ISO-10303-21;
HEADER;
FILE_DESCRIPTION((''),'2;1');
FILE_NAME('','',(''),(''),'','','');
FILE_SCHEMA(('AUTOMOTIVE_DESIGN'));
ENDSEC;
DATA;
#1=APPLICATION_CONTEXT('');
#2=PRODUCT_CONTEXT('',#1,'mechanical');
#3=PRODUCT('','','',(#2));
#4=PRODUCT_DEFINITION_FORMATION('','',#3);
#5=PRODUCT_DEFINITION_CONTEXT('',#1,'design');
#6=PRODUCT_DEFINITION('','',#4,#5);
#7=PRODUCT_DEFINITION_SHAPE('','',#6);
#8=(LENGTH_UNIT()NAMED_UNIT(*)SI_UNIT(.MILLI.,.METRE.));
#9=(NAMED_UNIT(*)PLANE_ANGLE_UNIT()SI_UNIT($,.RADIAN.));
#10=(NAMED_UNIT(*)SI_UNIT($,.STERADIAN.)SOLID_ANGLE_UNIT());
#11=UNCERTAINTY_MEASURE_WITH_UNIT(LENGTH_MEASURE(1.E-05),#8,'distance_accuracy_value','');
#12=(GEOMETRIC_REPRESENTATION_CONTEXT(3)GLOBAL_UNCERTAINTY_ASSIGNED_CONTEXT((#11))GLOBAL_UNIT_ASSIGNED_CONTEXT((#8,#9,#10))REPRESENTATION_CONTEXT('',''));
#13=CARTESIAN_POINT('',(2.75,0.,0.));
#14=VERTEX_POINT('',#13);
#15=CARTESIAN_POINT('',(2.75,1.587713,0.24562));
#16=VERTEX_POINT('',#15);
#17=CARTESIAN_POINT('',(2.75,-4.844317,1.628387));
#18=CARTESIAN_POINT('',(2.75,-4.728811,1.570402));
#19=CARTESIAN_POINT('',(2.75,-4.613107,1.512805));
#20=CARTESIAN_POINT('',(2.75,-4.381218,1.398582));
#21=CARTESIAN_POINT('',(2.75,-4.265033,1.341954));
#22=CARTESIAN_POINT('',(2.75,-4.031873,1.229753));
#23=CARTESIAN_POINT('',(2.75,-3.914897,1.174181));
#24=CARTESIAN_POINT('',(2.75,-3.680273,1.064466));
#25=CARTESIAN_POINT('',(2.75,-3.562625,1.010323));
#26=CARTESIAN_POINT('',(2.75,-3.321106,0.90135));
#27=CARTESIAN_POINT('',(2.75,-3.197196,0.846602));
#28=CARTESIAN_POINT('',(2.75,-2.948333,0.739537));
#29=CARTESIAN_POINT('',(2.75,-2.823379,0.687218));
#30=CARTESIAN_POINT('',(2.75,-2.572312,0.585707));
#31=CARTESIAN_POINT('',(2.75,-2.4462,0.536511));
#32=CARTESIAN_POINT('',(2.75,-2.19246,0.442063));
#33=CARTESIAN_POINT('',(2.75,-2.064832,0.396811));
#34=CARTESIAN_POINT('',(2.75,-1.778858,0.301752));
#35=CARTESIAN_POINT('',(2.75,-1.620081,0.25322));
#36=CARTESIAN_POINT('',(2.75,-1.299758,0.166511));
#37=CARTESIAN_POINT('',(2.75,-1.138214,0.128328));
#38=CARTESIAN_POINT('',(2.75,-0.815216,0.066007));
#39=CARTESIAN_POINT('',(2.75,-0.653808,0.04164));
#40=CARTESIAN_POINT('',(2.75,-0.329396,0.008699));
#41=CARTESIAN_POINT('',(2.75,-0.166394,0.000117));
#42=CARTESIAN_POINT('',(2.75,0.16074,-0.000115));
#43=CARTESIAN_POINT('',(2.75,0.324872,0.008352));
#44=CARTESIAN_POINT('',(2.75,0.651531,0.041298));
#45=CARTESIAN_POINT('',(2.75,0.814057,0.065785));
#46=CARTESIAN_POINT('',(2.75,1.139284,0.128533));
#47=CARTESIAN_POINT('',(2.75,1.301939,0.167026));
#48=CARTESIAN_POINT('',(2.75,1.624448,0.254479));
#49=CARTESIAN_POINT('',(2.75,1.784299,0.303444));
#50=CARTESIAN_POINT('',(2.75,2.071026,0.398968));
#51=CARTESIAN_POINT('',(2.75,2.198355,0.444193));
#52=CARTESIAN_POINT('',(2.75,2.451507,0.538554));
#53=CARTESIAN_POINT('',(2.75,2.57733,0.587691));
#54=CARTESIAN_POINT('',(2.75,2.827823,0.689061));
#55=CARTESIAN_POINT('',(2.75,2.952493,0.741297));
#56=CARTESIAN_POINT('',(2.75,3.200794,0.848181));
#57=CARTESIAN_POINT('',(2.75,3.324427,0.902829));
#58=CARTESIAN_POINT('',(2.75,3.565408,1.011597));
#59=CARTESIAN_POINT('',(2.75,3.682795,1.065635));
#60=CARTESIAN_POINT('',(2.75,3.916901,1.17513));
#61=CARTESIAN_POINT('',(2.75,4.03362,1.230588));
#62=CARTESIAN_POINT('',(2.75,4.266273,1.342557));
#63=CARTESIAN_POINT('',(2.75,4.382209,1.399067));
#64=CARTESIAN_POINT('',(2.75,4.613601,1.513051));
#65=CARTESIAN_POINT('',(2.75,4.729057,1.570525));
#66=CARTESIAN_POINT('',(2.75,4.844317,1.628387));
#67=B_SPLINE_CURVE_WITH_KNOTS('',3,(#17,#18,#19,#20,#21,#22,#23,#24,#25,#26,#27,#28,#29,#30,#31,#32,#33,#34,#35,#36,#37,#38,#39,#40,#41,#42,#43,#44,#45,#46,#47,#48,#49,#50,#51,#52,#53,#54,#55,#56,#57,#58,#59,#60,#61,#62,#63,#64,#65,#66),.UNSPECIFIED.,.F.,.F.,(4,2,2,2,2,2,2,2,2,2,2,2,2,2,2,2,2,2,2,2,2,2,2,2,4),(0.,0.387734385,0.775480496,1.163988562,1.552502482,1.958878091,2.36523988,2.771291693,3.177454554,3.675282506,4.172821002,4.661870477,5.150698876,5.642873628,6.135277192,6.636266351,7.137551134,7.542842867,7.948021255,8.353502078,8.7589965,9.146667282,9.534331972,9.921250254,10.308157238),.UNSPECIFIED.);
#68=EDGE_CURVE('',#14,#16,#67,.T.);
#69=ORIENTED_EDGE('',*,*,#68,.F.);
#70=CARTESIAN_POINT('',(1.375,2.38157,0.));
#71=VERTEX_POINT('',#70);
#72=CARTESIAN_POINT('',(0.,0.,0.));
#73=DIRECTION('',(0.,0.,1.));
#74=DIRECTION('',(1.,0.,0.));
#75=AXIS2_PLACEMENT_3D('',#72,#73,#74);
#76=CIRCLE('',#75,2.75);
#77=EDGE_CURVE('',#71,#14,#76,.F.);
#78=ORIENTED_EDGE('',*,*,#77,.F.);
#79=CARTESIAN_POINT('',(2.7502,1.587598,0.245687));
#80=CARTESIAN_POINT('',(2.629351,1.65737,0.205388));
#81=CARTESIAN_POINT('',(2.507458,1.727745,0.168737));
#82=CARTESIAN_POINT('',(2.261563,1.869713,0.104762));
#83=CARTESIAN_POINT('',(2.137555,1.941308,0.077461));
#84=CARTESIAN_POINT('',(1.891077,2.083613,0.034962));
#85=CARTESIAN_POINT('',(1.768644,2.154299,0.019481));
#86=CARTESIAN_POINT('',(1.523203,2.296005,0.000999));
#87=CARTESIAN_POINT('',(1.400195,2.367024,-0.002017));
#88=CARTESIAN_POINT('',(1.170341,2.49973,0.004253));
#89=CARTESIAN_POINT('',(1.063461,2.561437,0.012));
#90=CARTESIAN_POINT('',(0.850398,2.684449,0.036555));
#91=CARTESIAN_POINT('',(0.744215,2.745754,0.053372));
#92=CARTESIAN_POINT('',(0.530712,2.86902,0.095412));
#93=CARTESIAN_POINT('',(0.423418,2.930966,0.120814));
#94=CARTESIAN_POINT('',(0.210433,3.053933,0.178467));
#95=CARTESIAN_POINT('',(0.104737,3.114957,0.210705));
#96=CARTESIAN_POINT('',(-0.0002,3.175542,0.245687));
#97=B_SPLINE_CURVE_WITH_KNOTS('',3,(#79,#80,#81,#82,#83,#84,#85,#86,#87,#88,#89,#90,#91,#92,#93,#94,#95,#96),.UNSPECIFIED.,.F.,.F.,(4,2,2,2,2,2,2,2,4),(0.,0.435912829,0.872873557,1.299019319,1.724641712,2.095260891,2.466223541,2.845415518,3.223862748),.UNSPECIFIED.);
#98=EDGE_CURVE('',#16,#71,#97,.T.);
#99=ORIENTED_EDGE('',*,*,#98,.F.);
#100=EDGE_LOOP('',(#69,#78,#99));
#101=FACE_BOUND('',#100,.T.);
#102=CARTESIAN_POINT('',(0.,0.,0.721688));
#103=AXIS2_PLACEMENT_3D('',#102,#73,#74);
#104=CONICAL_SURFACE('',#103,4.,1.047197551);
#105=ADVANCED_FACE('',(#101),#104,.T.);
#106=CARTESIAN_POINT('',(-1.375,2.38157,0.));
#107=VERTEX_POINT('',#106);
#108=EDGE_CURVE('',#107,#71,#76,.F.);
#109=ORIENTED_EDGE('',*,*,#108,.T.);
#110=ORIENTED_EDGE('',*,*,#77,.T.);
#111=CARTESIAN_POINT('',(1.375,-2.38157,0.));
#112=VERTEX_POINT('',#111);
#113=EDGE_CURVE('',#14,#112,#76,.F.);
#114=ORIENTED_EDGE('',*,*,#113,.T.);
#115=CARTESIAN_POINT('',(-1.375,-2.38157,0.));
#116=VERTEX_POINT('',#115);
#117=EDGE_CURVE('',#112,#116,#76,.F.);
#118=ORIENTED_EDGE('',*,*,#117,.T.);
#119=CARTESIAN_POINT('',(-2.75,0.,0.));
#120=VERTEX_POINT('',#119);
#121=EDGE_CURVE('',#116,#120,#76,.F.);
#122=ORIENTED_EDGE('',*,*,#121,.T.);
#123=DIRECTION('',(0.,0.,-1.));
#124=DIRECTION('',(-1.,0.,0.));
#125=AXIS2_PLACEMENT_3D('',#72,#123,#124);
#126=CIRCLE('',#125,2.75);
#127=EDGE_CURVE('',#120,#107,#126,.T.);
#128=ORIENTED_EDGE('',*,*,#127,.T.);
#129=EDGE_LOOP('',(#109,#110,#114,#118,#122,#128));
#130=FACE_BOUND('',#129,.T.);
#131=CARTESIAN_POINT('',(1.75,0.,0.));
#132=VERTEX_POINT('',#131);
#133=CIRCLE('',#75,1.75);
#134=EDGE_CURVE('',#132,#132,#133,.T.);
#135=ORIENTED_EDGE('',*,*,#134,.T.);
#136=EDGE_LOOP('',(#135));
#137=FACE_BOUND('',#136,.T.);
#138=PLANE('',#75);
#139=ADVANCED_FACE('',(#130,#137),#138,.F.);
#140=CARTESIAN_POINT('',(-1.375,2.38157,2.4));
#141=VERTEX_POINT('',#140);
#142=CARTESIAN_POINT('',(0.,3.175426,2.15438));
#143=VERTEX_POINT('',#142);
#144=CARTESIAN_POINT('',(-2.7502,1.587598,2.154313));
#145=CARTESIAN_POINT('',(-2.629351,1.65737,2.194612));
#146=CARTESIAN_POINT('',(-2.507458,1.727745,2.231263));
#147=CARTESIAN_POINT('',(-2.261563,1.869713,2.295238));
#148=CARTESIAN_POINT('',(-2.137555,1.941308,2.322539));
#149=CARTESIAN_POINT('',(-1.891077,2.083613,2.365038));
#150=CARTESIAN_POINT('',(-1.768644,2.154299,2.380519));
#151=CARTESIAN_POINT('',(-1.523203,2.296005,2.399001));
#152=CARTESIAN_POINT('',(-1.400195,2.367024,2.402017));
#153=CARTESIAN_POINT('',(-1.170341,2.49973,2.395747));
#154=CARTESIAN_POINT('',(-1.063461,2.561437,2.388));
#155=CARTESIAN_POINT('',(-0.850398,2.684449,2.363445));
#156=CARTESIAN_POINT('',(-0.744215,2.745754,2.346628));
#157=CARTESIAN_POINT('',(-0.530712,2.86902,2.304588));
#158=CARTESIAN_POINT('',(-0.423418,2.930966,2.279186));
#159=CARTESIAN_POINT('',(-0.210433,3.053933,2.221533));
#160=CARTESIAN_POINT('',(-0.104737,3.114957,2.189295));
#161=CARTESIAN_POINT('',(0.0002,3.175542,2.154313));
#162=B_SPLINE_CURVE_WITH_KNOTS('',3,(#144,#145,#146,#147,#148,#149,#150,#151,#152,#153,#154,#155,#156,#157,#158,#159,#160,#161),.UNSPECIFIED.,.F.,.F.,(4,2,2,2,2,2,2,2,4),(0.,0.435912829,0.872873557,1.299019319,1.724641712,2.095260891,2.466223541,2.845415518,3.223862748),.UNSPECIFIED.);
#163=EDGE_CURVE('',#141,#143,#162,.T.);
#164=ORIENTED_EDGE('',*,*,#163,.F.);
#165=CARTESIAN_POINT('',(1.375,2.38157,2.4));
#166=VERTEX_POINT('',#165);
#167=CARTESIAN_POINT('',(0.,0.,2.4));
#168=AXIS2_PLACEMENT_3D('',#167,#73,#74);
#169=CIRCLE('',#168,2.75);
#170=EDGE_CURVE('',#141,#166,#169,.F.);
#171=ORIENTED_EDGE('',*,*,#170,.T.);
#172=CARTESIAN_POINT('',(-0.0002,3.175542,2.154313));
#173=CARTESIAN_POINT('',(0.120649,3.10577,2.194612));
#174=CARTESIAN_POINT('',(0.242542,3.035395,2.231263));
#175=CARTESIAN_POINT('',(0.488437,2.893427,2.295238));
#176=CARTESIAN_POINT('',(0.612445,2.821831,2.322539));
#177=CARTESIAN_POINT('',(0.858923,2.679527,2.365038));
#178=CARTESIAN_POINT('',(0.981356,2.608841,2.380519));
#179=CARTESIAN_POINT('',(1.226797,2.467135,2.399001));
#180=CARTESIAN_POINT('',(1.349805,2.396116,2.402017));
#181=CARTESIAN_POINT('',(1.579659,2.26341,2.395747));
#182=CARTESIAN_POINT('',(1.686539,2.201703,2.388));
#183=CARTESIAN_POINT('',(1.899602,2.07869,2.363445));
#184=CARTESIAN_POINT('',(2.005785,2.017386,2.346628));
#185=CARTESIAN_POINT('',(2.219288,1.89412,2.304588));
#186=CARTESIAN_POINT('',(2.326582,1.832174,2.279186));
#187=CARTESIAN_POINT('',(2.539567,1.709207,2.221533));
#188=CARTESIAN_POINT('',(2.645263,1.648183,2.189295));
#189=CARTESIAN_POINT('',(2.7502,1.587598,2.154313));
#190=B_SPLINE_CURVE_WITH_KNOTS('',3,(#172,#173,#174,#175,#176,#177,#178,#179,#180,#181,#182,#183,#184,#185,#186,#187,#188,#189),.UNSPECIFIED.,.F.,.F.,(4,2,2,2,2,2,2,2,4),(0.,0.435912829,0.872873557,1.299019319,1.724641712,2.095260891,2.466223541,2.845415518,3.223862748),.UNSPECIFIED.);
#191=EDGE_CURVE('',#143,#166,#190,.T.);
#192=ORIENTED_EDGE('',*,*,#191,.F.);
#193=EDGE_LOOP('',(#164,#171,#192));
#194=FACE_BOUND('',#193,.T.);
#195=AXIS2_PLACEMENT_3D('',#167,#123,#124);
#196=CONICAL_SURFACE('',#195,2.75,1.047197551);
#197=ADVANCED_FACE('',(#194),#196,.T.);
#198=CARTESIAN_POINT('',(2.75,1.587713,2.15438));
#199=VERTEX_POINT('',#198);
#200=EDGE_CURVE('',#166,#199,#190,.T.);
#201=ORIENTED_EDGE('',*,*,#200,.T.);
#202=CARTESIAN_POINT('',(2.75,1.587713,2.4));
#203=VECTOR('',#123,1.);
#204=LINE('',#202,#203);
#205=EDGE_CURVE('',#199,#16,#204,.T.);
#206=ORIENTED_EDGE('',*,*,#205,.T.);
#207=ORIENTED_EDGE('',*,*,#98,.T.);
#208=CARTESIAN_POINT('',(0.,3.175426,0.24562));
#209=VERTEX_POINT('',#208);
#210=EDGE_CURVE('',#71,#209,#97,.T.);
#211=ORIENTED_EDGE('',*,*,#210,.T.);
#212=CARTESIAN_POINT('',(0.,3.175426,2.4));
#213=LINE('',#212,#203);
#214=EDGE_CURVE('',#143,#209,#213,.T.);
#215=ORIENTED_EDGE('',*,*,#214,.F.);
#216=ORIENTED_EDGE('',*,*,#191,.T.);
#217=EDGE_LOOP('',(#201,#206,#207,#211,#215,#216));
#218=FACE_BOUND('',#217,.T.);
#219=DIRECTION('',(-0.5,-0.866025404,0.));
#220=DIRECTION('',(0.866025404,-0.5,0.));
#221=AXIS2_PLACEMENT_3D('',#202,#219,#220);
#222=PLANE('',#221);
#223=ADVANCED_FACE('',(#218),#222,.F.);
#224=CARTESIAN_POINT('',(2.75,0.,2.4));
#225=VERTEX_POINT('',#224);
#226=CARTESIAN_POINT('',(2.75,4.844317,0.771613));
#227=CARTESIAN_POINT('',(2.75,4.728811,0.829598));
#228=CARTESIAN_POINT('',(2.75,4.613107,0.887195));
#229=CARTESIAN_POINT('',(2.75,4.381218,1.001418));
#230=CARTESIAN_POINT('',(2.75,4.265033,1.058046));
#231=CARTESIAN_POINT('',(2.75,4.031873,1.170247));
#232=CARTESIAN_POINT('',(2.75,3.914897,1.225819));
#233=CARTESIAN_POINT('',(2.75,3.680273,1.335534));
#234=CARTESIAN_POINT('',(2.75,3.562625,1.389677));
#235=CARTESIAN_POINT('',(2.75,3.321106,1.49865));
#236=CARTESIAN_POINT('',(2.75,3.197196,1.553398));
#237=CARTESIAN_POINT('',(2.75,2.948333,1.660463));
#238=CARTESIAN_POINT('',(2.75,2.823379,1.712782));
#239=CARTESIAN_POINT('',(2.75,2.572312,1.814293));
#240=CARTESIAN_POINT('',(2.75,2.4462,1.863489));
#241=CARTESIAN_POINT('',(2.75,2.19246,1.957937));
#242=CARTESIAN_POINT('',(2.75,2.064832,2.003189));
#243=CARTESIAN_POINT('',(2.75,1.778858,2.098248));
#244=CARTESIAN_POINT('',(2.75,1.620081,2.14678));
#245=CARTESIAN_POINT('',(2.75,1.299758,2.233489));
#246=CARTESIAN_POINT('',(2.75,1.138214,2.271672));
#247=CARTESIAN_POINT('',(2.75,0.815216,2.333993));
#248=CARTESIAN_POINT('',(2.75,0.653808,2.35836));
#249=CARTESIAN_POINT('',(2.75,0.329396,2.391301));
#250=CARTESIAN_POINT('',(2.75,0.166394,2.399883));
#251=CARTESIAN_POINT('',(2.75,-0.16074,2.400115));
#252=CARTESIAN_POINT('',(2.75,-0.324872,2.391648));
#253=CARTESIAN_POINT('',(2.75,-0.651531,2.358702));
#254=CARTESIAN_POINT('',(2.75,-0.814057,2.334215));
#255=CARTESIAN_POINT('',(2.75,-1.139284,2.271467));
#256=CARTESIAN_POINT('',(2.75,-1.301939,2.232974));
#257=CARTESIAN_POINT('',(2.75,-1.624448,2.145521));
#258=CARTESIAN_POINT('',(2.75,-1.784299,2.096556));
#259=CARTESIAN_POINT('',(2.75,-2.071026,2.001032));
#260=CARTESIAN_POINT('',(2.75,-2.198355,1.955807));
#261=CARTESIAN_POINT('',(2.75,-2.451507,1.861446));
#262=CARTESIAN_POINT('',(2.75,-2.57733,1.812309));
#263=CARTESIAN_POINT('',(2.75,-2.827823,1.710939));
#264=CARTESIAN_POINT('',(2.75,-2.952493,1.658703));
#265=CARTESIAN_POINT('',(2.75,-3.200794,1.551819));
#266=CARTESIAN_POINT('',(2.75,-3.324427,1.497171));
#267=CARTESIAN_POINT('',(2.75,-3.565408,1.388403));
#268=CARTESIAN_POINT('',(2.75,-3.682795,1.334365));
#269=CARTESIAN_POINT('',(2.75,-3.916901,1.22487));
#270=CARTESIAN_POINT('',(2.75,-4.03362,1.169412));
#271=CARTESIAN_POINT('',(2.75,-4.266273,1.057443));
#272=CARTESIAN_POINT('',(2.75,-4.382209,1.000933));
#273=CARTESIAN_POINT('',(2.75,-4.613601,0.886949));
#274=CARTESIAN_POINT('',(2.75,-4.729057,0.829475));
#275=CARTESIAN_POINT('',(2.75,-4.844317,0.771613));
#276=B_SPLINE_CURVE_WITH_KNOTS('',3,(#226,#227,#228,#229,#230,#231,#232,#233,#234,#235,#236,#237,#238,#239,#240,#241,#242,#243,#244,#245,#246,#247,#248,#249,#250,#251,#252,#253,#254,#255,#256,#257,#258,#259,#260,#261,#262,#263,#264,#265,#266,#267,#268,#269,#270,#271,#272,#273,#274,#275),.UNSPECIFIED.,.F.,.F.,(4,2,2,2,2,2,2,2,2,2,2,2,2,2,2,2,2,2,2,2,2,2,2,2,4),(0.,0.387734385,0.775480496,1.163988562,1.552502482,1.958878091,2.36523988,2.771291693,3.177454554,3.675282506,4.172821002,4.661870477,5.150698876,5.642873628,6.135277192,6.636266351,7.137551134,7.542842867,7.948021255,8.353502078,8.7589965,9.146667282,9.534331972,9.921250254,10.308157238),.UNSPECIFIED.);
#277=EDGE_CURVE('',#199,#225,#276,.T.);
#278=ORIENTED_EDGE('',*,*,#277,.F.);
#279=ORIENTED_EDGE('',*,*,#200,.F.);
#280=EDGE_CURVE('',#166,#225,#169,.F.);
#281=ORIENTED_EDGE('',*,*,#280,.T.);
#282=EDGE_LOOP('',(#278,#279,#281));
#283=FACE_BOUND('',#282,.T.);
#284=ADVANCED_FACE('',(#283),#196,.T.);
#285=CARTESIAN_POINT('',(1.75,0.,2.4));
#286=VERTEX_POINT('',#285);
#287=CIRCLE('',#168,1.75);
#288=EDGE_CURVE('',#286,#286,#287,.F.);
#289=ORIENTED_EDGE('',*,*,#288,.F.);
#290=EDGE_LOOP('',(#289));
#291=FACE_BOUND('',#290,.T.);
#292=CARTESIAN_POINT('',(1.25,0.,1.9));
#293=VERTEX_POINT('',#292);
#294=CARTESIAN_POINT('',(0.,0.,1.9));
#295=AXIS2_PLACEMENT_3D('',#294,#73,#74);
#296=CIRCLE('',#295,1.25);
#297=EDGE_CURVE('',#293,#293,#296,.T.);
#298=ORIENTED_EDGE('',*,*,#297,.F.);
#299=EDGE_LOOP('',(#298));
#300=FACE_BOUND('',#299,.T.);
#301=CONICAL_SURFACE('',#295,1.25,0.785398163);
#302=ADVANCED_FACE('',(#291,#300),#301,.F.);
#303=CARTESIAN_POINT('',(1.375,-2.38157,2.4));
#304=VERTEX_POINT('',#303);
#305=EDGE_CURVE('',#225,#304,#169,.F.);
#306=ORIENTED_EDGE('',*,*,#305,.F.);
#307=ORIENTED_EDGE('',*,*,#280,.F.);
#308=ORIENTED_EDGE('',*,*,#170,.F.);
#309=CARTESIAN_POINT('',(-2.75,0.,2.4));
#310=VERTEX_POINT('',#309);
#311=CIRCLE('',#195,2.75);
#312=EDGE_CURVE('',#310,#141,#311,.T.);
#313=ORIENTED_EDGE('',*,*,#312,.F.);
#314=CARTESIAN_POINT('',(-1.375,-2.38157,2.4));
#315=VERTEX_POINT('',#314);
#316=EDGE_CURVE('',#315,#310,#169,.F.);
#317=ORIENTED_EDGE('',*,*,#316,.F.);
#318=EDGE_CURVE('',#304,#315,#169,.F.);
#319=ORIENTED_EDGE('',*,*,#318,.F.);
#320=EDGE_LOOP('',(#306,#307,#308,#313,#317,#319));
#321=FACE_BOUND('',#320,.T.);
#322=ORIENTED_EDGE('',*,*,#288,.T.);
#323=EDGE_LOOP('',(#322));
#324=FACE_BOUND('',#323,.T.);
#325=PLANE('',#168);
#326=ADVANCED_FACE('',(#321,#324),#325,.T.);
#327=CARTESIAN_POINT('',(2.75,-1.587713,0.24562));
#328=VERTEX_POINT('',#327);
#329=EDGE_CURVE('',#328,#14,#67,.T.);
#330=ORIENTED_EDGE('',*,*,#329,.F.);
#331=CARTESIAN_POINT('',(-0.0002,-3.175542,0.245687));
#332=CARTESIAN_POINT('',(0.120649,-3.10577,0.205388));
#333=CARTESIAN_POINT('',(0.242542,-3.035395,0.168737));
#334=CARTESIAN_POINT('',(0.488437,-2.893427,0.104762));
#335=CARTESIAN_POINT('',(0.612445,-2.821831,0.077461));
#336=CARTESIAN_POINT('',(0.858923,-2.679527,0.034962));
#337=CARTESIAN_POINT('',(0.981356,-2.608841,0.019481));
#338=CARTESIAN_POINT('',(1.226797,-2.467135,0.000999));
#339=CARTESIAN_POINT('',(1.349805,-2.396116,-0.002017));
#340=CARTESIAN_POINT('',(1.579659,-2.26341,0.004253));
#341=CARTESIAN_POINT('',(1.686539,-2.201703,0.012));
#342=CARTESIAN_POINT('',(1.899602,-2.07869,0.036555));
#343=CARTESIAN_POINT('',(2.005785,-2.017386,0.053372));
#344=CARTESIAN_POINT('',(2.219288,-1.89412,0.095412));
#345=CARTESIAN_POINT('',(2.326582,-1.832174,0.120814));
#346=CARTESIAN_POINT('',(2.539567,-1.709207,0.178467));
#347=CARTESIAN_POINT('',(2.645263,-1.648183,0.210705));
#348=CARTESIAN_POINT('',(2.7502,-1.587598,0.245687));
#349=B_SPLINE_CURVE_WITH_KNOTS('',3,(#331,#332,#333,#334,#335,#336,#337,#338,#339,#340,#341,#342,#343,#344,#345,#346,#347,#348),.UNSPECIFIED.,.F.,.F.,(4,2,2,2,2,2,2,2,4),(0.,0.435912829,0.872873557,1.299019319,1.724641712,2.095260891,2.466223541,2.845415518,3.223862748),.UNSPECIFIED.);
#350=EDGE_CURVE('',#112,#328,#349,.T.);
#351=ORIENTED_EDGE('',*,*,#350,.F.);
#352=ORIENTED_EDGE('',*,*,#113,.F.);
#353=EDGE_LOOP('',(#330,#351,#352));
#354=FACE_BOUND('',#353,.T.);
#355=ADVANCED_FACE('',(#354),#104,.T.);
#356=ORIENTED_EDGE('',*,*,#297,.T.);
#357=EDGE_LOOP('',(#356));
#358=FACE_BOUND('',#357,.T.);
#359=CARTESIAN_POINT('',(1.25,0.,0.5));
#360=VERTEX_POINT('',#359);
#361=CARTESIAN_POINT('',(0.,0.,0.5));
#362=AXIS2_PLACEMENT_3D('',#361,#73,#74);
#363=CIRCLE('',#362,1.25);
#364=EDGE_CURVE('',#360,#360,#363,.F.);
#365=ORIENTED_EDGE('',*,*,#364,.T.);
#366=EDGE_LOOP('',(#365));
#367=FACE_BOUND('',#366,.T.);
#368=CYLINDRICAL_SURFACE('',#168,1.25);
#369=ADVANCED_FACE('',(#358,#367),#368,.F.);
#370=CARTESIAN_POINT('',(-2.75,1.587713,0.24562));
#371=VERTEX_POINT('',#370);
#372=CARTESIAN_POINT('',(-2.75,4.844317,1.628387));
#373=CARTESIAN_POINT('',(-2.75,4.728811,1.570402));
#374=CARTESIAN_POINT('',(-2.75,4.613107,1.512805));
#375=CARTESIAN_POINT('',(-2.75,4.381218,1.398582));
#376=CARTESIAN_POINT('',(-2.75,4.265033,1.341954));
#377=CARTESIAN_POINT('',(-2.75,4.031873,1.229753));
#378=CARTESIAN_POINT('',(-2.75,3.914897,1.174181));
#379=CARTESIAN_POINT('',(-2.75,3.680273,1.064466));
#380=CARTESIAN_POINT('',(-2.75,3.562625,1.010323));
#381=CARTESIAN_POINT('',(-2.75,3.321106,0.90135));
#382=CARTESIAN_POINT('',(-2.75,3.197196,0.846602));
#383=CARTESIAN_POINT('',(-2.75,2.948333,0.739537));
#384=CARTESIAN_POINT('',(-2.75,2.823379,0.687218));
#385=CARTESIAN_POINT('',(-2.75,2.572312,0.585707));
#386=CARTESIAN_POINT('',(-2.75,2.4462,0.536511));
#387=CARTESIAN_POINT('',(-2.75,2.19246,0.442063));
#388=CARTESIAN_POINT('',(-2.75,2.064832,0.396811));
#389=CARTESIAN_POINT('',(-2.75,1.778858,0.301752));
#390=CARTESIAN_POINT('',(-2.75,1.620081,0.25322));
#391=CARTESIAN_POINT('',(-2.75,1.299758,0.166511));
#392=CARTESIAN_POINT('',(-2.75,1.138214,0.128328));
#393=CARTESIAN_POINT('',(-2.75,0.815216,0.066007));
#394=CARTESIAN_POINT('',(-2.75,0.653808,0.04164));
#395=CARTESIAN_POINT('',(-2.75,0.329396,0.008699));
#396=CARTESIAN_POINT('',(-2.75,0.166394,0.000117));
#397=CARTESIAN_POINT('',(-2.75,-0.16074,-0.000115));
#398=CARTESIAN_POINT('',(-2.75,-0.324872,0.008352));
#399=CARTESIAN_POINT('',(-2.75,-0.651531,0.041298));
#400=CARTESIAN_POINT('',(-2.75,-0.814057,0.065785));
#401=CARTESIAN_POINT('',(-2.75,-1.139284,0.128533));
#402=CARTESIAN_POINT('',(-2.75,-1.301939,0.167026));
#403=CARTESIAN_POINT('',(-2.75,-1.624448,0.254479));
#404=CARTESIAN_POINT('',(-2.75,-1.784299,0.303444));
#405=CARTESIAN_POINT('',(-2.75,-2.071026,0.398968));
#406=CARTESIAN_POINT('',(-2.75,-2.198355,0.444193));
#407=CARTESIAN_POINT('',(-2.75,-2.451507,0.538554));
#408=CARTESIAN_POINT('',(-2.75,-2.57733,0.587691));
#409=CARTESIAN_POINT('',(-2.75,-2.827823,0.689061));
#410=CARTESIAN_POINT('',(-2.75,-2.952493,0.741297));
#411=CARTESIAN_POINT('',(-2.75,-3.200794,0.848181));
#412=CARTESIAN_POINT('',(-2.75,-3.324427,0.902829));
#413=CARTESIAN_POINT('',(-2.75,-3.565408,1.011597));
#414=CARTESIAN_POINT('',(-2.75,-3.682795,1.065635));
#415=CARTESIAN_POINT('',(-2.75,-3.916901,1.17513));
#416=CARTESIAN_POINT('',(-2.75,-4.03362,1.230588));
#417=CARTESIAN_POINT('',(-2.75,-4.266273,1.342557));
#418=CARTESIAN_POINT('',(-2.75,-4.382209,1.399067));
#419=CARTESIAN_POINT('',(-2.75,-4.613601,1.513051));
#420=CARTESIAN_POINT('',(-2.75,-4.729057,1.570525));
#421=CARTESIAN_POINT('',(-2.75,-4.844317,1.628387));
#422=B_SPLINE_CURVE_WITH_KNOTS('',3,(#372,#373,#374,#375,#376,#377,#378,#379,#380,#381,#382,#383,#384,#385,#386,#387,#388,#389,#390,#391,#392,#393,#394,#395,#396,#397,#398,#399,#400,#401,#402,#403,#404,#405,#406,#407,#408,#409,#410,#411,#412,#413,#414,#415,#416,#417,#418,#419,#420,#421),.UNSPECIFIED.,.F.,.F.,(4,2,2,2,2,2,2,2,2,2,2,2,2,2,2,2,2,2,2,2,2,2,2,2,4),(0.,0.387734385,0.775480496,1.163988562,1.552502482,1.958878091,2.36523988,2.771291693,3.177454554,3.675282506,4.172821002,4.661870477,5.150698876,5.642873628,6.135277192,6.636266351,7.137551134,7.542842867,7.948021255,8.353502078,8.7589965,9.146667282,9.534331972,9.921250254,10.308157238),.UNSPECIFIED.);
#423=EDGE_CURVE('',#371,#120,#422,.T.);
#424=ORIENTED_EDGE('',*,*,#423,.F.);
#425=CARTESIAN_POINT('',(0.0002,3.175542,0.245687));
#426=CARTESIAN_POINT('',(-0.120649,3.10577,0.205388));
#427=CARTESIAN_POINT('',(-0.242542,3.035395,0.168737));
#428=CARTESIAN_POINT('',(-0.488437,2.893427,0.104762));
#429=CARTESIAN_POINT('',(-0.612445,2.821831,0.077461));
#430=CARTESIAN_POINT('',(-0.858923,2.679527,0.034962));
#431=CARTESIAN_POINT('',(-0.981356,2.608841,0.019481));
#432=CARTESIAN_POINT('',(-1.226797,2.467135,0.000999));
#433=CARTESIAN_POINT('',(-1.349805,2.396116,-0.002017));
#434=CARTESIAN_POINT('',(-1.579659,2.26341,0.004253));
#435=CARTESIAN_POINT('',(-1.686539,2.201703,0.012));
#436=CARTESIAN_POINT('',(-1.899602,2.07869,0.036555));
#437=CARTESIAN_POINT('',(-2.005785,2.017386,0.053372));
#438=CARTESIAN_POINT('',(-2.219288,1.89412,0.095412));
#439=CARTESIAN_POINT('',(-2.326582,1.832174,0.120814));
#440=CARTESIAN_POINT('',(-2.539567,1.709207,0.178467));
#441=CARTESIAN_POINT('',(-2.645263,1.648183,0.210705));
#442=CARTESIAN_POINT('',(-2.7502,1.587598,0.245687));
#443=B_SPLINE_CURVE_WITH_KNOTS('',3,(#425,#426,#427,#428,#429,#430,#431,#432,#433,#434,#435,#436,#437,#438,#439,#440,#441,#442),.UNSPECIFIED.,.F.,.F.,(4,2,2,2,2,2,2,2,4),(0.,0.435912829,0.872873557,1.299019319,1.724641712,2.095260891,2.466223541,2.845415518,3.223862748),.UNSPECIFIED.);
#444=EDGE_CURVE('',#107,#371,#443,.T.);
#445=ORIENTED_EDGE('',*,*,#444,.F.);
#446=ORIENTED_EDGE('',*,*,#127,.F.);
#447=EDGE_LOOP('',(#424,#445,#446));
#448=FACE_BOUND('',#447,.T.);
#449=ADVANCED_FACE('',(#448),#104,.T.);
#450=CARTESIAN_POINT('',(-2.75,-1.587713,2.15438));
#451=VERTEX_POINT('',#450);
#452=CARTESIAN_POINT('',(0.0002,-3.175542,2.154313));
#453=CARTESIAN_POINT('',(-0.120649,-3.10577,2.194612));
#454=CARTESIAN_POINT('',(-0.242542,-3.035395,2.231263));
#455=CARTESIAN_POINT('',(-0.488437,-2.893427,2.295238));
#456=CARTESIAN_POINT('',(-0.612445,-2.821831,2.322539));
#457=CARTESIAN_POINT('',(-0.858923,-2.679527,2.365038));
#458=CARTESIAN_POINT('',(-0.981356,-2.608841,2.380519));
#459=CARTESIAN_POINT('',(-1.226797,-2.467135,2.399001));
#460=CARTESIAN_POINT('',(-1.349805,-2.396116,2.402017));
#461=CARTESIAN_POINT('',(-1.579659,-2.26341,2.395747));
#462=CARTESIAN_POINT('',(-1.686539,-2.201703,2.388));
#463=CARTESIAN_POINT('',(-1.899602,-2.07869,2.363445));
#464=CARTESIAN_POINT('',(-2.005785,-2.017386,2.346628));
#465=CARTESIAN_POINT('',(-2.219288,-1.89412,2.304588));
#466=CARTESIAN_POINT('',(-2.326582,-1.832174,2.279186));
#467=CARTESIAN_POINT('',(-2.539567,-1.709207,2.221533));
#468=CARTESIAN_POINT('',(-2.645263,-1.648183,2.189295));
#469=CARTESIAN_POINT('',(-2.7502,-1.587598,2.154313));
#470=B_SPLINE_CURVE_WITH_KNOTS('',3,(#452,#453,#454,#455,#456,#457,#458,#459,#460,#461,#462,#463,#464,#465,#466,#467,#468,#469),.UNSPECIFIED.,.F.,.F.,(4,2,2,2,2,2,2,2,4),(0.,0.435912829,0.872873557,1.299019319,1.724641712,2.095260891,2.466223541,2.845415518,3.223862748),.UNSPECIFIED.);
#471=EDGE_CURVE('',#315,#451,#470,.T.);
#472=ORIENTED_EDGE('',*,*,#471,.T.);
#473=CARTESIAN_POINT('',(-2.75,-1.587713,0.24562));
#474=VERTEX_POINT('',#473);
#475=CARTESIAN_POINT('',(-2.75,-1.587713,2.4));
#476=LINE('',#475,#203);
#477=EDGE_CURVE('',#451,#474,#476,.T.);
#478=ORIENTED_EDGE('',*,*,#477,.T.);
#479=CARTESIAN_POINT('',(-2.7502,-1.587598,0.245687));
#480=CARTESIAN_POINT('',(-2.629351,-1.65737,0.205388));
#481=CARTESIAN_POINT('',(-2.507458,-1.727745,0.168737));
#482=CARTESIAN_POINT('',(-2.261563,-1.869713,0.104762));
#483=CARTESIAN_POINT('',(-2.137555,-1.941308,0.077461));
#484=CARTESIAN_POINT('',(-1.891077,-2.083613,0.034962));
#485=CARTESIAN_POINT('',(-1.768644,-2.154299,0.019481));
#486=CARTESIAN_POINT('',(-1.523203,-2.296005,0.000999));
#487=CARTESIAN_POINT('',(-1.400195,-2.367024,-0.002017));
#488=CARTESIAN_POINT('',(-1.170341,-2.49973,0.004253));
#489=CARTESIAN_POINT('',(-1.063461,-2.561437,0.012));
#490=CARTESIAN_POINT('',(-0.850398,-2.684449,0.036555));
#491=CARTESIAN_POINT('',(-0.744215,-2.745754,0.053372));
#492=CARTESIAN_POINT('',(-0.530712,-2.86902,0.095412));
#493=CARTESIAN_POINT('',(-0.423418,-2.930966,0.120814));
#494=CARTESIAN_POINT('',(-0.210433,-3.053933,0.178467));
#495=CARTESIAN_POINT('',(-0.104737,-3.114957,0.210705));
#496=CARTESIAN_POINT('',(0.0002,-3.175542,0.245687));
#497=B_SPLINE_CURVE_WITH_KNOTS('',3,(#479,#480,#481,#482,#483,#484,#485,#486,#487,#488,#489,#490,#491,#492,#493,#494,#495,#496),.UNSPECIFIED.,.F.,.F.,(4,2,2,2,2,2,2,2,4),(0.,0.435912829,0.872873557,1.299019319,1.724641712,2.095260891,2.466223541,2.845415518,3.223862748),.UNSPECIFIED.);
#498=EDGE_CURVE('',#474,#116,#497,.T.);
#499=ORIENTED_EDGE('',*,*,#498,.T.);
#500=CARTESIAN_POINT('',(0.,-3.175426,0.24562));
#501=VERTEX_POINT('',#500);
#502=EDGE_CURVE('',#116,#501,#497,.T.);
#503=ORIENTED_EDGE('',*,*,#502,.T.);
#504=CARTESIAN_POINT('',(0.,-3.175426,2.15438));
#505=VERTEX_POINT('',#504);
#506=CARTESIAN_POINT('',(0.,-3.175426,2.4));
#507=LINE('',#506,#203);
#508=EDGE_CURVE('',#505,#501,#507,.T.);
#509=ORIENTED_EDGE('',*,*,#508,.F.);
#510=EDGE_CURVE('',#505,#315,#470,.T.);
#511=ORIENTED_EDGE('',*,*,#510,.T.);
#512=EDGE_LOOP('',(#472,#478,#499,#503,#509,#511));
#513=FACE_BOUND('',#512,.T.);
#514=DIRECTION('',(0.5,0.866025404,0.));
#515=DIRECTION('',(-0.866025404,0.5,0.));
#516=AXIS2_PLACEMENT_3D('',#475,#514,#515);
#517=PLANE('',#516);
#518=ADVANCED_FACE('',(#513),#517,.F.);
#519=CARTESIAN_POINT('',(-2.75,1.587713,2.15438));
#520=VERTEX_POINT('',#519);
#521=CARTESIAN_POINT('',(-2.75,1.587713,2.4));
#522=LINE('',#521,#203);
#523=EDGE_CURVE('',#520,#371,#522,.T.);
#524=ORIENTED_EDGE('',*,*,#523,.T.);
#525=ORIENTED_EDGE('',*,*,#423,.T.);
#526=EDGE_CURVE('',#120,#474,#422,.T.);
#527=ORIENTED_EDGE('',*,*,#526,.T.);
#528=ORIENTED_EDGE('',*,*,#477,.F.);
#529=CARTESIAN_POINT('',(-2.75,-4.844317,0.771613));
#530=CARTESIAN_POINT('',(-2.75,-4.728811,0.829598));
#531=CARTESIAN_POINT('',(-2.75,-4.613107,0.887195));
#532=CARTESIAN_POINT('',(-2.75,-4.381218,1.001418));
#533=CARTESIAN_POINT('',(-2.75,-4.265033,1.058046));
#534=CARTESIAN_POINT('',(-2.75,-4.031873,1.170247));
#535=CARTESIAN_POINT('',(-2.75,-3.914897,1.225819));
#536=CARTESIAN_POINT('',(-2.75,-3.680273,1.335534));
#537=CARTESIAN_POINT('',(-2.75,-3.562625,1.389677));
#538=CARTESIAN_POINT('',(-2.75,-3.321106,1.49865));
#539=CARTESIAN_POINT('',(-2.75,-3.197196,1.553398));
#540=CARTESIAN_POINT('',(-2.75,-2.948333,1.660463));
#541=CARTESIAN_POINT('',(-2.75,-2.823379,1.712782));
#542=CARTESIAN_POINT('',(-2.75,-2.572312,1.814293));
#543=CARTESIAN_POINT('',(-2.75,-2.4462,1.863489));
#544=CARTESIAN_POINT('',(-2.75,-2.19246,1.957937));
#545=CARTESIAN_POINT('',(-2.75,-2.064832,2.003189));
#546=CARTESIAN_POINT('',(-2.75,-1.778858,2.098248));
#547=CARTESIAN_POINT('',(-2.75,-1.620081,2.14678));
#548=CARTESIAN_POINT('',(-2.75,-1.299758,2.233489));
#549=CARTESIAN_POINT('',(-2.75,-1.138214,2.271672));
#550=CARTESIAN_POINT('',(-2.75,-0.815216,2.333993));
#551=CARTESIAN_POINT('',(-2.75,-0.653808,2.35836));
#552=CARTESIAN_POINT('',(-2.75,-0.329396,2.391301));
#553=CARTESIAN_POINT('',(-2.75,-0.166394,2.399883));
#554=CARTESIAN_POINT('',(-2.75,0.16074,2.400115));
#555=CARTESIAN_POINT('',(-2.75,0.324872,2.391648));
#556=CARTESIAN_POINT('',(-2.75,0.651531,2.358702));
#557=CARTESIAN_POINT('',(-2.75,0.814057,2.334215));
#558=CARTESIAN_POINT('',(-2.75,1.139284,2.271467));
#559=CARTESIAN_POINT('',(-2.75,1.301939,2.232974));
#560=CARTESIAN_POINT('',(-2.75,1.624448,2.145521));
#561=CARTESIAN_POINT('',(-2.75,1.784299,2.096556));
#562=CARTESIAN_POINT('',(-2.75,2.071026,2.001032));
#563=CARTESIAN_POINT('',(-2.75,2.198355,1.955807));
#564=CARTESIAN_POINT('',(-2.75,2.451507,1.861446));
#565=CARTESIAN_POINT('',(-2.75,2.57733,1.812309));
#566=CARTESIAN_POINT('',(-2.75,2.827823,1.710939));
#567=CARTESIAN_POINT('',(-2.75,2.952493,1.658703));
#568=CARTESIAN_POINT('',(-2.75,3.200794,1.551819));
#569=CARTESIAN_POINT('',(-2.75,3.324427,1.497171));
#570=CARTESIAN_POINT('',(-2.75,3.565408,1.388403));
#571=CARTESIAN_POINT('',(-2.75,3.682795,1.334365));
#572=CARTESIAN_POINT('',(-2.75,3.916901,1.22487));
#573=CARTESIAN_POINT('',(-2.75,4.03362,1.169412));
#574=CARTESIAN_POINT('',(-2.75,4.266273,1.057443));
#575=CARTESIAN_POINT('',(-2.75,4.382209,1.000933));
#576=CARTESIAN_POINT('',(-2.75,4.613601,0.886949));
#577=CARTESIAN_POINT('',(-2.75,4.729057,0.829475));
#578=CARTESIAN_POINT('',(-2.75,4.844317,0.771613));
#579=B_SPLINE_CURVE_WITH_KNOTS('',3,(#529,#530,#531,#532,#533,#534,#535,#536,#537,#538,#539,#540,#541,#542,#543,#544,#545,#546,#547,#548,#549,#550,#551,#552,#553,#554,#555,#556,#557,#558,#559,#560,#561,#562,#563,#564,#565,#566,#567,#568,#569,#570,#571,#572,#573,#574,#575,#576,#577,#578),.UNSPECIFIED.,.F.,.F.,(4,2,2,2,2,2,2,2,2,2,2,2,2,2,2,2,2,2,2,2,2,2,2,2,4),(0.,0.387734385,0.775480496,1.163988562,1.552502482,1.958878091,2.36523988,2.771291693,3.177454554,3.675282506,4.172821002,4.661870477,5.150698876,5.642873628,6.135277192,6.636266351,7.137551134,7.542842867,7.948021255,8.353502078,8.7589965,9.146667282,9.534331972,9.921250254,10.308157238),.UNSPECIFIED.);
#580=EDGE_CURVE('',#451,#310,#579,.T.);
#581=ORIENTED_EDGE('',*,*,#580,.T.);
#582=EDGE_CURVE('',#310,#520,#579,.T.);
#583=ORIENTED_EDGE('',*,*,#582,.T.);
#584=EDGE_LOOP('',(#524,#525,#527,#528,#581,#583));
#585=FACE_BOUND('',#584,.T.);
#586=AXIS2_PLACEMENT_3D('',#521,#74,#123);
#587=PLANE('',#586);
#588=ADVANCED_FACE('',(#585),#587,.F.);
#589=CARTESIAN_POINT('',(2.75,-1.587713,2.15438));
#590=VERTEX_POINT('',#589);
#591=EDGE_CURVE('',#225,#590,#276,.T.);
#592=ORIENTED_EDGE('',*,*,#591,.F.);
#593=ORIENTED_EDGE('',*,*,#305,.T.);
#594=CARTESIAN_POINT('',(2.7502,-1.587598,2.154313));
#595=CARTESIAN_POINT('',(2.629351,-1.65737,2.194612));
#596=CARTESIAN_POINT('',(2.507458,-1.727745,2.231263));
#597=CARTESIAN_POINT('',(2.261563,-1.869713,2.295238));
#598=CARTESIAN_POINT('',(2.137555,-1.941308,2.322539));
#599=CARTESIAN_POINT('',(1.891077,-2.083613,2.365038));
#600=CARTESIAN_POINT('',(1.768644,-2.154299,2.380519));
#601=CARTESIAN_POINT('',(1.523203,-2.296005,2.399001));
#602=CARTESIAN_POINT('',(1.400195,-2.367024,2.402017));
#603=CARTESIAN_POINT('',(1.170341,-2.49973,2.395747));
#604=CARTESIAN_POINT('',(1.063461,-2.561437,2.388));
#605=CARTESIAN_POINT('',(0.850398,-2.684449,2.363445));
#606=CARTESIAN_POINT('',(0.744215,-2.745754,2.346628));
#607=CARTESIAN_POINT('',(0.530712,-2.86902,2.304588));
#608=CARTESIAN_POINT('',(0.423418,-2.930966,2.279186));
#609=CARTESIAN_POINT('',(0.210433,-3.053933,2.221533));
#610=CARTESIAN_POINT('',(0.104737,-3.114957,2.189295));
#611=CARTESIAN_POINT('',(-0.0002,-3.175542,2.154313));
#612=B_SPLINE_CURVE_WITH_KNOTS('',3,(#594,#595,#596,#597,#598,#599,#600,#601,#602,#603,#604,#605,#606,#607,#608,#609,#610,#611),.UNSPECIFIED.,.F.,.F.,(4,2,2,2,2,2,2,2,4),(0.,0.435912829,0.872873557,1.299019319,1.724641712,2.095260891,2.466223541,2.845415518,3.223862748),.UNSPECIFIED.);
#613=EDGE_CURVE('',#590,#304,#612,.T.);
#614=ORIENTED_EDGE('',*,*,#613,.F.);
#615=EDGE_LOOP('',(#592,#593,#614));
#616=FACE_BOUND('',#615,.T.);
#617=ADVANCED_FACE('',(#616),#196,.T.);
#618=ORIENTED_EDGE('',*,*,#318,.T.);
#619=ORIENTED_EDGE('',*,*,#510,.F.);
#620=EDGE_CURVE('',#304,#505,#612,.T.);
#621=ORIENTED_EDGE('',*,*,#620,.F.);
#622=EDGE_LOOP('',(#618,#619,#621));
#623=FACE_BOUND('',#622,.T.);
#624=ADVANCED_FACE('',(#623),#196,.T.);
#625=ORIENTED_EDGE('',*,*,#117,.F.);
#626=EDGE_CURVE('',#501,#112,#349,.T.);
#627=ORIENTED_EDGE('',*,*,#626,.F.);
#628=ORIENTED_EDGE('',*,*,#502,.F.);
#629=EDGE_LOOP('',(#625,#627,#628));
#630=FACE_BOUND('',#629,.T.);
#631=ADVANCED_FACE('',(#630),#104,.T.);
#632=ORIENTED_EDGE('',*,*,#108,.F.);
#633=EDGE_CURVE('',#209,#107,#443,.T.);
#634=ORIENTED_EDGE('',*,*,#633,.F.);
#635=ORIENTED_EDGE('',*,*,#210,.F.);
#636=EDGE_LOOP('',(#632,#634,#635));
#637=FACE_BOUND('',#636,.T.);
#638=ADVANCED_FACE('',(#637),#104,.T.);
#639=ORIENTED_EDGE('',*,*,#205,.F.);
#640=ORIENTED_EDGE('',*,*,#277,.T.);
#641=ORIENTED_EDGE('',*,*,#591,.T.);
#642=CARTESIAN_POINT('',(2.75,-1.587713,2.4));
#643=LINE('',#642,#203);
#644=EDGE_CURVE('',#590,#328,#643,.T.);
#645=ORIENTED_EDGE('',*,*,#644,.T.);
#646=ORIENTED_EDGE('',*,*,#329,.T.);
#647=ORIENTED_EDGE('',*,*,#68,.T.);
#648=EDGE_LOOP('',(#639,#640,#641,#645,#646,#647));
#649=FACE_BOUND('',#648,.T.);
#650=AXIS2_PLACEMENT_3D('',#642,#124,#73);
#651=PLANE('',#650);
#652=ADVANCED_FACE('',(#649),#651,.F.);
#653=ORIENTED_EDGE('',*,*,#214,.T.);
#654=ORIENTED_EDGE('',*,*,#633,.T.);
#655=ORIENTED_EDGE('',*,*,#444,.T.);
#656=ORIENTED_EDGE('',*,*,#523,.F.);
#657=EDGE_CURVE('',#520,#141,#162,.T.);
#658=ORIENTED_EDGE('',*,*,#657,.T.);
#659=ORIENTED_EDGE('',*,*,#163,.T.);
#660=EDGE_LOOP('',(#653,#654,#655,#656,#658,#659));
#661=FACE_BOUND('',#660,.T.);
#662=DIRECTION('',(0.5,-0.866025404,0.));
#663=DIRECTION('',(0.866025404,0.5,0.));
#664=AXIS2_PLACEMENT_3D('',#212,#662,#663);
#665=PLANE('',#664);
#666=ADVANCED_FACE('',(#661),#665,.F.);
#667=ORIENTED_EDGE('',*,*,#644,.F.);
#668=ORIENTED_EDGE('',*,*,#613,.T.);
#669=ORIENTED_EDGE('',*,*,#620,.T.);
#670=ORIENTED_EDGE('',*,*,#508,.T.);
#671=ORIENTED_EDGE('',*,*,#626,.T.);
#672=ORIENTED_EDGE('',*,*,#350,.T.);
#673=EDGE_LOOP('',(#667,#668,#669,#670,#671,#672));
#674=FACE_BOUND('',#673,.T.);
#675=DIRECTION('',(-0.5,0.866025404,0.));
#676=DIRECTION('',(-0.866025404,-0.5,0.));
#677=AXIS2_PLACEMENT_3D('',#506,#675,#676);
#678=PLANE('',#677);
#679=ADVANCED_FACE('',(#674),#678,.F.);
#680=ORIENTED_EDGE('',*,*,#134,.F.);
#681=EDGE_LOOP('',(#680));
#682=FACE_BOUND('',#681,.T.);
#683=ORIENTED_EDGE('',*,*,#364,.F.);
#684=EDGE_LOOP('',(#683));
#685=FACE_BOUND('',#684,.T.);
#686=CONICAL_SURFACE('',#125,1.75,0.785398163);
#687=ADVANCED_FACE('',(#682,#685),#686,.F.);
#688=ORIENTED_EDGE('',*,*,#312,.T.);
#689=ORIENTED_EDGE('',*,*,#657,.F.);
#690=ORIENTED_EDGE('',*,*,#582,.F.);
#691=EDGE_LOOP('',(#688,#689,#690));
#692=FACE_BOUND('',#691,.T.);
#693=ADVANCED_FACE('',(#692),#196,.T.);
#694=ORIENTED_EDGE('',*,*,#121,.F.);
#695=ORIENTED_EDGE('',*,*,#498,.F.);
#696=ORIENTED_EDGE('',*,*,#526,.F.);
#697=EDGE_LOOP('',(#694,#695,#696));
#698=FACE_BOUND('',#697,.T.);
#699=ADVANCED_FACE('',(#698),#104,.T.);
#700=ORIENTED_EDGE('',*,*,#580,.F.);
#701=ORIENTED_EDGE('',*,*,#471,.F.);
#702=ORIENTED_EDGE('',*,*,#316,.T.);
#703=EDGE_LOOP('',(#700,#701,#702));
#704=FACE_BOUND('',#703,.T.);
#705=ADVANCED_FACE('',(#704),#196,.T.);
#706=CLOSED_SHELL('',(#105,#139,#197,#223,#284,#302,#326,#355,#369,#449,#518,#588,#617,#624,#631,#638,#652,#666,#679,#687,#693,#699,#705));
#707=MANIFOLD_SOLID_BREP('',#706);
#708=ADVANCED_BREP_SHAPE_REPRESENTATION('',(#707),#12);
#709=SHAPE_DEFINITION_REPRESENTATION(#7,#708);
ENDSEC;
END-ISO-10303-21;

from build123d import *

# Parameters (mm, degrees)
EXTRUDE_1_DEPTH   = 2.4
HOLE_WIZARD_M31_D = 2.5
CHAMFER_1_SIZE    = 0.5


with BuildPart() as part:
    # Эскиз1 → Бобышка-Вытянуть1 (new body)
    with BuildSketch(Plane.XY):
        Polygon((2.75, 1.58771324), (0, 3.175426481), (-2.75, 1.58771324), (-2.75, -1.58771324), (0, -3.175426481), (2.75, -1.58771324), align=None)
    extrude(amount=EXTRUDE_1_DEPTH)

    # Отверстие обработанное метчиком M31 (through all)
    with Locations(Plane.XY.offset(2.4)):
        with Locations((0, 0)):
            Hole(HOLE_WIZARD_M31_D / 2)

    # Фаска1
    chamfer_1_edges = [part.edges().sort_by_distance(p)[0] for p in [
        (1.25, 0, 2.4),
        (1.25, 0, 0),
    ]]
    chamfer(chamfer_1_edges, length=CHAMFER_1_SIZE)

    # Эскиз4 → Вырез-Повернуть1 (revolve, cut)
    with BuildSketch(Plane(origin=(0, 0, 0), x_dir=(0, 0, -1), z_dir=(1, 0, 0)), mode=Mode.PRIVATE) as cut_revolve_1_sk:
        Polygon((0, 2.75), (0, 4), (-0.721687836, 4), align=None)
        Polygon((-2.4, 2.75), (-2.4, 4), (-1.678312164, 4), align=None)
    revolve(cut_revolve_1_sk.sketch.rotate(Axis((0, 0, 0), (0, 0, 1)), 270), axis=Axis((0, 0, 0), (0, 0, 1)), mode=Mode.SUBTRACT)


solid = part.part
